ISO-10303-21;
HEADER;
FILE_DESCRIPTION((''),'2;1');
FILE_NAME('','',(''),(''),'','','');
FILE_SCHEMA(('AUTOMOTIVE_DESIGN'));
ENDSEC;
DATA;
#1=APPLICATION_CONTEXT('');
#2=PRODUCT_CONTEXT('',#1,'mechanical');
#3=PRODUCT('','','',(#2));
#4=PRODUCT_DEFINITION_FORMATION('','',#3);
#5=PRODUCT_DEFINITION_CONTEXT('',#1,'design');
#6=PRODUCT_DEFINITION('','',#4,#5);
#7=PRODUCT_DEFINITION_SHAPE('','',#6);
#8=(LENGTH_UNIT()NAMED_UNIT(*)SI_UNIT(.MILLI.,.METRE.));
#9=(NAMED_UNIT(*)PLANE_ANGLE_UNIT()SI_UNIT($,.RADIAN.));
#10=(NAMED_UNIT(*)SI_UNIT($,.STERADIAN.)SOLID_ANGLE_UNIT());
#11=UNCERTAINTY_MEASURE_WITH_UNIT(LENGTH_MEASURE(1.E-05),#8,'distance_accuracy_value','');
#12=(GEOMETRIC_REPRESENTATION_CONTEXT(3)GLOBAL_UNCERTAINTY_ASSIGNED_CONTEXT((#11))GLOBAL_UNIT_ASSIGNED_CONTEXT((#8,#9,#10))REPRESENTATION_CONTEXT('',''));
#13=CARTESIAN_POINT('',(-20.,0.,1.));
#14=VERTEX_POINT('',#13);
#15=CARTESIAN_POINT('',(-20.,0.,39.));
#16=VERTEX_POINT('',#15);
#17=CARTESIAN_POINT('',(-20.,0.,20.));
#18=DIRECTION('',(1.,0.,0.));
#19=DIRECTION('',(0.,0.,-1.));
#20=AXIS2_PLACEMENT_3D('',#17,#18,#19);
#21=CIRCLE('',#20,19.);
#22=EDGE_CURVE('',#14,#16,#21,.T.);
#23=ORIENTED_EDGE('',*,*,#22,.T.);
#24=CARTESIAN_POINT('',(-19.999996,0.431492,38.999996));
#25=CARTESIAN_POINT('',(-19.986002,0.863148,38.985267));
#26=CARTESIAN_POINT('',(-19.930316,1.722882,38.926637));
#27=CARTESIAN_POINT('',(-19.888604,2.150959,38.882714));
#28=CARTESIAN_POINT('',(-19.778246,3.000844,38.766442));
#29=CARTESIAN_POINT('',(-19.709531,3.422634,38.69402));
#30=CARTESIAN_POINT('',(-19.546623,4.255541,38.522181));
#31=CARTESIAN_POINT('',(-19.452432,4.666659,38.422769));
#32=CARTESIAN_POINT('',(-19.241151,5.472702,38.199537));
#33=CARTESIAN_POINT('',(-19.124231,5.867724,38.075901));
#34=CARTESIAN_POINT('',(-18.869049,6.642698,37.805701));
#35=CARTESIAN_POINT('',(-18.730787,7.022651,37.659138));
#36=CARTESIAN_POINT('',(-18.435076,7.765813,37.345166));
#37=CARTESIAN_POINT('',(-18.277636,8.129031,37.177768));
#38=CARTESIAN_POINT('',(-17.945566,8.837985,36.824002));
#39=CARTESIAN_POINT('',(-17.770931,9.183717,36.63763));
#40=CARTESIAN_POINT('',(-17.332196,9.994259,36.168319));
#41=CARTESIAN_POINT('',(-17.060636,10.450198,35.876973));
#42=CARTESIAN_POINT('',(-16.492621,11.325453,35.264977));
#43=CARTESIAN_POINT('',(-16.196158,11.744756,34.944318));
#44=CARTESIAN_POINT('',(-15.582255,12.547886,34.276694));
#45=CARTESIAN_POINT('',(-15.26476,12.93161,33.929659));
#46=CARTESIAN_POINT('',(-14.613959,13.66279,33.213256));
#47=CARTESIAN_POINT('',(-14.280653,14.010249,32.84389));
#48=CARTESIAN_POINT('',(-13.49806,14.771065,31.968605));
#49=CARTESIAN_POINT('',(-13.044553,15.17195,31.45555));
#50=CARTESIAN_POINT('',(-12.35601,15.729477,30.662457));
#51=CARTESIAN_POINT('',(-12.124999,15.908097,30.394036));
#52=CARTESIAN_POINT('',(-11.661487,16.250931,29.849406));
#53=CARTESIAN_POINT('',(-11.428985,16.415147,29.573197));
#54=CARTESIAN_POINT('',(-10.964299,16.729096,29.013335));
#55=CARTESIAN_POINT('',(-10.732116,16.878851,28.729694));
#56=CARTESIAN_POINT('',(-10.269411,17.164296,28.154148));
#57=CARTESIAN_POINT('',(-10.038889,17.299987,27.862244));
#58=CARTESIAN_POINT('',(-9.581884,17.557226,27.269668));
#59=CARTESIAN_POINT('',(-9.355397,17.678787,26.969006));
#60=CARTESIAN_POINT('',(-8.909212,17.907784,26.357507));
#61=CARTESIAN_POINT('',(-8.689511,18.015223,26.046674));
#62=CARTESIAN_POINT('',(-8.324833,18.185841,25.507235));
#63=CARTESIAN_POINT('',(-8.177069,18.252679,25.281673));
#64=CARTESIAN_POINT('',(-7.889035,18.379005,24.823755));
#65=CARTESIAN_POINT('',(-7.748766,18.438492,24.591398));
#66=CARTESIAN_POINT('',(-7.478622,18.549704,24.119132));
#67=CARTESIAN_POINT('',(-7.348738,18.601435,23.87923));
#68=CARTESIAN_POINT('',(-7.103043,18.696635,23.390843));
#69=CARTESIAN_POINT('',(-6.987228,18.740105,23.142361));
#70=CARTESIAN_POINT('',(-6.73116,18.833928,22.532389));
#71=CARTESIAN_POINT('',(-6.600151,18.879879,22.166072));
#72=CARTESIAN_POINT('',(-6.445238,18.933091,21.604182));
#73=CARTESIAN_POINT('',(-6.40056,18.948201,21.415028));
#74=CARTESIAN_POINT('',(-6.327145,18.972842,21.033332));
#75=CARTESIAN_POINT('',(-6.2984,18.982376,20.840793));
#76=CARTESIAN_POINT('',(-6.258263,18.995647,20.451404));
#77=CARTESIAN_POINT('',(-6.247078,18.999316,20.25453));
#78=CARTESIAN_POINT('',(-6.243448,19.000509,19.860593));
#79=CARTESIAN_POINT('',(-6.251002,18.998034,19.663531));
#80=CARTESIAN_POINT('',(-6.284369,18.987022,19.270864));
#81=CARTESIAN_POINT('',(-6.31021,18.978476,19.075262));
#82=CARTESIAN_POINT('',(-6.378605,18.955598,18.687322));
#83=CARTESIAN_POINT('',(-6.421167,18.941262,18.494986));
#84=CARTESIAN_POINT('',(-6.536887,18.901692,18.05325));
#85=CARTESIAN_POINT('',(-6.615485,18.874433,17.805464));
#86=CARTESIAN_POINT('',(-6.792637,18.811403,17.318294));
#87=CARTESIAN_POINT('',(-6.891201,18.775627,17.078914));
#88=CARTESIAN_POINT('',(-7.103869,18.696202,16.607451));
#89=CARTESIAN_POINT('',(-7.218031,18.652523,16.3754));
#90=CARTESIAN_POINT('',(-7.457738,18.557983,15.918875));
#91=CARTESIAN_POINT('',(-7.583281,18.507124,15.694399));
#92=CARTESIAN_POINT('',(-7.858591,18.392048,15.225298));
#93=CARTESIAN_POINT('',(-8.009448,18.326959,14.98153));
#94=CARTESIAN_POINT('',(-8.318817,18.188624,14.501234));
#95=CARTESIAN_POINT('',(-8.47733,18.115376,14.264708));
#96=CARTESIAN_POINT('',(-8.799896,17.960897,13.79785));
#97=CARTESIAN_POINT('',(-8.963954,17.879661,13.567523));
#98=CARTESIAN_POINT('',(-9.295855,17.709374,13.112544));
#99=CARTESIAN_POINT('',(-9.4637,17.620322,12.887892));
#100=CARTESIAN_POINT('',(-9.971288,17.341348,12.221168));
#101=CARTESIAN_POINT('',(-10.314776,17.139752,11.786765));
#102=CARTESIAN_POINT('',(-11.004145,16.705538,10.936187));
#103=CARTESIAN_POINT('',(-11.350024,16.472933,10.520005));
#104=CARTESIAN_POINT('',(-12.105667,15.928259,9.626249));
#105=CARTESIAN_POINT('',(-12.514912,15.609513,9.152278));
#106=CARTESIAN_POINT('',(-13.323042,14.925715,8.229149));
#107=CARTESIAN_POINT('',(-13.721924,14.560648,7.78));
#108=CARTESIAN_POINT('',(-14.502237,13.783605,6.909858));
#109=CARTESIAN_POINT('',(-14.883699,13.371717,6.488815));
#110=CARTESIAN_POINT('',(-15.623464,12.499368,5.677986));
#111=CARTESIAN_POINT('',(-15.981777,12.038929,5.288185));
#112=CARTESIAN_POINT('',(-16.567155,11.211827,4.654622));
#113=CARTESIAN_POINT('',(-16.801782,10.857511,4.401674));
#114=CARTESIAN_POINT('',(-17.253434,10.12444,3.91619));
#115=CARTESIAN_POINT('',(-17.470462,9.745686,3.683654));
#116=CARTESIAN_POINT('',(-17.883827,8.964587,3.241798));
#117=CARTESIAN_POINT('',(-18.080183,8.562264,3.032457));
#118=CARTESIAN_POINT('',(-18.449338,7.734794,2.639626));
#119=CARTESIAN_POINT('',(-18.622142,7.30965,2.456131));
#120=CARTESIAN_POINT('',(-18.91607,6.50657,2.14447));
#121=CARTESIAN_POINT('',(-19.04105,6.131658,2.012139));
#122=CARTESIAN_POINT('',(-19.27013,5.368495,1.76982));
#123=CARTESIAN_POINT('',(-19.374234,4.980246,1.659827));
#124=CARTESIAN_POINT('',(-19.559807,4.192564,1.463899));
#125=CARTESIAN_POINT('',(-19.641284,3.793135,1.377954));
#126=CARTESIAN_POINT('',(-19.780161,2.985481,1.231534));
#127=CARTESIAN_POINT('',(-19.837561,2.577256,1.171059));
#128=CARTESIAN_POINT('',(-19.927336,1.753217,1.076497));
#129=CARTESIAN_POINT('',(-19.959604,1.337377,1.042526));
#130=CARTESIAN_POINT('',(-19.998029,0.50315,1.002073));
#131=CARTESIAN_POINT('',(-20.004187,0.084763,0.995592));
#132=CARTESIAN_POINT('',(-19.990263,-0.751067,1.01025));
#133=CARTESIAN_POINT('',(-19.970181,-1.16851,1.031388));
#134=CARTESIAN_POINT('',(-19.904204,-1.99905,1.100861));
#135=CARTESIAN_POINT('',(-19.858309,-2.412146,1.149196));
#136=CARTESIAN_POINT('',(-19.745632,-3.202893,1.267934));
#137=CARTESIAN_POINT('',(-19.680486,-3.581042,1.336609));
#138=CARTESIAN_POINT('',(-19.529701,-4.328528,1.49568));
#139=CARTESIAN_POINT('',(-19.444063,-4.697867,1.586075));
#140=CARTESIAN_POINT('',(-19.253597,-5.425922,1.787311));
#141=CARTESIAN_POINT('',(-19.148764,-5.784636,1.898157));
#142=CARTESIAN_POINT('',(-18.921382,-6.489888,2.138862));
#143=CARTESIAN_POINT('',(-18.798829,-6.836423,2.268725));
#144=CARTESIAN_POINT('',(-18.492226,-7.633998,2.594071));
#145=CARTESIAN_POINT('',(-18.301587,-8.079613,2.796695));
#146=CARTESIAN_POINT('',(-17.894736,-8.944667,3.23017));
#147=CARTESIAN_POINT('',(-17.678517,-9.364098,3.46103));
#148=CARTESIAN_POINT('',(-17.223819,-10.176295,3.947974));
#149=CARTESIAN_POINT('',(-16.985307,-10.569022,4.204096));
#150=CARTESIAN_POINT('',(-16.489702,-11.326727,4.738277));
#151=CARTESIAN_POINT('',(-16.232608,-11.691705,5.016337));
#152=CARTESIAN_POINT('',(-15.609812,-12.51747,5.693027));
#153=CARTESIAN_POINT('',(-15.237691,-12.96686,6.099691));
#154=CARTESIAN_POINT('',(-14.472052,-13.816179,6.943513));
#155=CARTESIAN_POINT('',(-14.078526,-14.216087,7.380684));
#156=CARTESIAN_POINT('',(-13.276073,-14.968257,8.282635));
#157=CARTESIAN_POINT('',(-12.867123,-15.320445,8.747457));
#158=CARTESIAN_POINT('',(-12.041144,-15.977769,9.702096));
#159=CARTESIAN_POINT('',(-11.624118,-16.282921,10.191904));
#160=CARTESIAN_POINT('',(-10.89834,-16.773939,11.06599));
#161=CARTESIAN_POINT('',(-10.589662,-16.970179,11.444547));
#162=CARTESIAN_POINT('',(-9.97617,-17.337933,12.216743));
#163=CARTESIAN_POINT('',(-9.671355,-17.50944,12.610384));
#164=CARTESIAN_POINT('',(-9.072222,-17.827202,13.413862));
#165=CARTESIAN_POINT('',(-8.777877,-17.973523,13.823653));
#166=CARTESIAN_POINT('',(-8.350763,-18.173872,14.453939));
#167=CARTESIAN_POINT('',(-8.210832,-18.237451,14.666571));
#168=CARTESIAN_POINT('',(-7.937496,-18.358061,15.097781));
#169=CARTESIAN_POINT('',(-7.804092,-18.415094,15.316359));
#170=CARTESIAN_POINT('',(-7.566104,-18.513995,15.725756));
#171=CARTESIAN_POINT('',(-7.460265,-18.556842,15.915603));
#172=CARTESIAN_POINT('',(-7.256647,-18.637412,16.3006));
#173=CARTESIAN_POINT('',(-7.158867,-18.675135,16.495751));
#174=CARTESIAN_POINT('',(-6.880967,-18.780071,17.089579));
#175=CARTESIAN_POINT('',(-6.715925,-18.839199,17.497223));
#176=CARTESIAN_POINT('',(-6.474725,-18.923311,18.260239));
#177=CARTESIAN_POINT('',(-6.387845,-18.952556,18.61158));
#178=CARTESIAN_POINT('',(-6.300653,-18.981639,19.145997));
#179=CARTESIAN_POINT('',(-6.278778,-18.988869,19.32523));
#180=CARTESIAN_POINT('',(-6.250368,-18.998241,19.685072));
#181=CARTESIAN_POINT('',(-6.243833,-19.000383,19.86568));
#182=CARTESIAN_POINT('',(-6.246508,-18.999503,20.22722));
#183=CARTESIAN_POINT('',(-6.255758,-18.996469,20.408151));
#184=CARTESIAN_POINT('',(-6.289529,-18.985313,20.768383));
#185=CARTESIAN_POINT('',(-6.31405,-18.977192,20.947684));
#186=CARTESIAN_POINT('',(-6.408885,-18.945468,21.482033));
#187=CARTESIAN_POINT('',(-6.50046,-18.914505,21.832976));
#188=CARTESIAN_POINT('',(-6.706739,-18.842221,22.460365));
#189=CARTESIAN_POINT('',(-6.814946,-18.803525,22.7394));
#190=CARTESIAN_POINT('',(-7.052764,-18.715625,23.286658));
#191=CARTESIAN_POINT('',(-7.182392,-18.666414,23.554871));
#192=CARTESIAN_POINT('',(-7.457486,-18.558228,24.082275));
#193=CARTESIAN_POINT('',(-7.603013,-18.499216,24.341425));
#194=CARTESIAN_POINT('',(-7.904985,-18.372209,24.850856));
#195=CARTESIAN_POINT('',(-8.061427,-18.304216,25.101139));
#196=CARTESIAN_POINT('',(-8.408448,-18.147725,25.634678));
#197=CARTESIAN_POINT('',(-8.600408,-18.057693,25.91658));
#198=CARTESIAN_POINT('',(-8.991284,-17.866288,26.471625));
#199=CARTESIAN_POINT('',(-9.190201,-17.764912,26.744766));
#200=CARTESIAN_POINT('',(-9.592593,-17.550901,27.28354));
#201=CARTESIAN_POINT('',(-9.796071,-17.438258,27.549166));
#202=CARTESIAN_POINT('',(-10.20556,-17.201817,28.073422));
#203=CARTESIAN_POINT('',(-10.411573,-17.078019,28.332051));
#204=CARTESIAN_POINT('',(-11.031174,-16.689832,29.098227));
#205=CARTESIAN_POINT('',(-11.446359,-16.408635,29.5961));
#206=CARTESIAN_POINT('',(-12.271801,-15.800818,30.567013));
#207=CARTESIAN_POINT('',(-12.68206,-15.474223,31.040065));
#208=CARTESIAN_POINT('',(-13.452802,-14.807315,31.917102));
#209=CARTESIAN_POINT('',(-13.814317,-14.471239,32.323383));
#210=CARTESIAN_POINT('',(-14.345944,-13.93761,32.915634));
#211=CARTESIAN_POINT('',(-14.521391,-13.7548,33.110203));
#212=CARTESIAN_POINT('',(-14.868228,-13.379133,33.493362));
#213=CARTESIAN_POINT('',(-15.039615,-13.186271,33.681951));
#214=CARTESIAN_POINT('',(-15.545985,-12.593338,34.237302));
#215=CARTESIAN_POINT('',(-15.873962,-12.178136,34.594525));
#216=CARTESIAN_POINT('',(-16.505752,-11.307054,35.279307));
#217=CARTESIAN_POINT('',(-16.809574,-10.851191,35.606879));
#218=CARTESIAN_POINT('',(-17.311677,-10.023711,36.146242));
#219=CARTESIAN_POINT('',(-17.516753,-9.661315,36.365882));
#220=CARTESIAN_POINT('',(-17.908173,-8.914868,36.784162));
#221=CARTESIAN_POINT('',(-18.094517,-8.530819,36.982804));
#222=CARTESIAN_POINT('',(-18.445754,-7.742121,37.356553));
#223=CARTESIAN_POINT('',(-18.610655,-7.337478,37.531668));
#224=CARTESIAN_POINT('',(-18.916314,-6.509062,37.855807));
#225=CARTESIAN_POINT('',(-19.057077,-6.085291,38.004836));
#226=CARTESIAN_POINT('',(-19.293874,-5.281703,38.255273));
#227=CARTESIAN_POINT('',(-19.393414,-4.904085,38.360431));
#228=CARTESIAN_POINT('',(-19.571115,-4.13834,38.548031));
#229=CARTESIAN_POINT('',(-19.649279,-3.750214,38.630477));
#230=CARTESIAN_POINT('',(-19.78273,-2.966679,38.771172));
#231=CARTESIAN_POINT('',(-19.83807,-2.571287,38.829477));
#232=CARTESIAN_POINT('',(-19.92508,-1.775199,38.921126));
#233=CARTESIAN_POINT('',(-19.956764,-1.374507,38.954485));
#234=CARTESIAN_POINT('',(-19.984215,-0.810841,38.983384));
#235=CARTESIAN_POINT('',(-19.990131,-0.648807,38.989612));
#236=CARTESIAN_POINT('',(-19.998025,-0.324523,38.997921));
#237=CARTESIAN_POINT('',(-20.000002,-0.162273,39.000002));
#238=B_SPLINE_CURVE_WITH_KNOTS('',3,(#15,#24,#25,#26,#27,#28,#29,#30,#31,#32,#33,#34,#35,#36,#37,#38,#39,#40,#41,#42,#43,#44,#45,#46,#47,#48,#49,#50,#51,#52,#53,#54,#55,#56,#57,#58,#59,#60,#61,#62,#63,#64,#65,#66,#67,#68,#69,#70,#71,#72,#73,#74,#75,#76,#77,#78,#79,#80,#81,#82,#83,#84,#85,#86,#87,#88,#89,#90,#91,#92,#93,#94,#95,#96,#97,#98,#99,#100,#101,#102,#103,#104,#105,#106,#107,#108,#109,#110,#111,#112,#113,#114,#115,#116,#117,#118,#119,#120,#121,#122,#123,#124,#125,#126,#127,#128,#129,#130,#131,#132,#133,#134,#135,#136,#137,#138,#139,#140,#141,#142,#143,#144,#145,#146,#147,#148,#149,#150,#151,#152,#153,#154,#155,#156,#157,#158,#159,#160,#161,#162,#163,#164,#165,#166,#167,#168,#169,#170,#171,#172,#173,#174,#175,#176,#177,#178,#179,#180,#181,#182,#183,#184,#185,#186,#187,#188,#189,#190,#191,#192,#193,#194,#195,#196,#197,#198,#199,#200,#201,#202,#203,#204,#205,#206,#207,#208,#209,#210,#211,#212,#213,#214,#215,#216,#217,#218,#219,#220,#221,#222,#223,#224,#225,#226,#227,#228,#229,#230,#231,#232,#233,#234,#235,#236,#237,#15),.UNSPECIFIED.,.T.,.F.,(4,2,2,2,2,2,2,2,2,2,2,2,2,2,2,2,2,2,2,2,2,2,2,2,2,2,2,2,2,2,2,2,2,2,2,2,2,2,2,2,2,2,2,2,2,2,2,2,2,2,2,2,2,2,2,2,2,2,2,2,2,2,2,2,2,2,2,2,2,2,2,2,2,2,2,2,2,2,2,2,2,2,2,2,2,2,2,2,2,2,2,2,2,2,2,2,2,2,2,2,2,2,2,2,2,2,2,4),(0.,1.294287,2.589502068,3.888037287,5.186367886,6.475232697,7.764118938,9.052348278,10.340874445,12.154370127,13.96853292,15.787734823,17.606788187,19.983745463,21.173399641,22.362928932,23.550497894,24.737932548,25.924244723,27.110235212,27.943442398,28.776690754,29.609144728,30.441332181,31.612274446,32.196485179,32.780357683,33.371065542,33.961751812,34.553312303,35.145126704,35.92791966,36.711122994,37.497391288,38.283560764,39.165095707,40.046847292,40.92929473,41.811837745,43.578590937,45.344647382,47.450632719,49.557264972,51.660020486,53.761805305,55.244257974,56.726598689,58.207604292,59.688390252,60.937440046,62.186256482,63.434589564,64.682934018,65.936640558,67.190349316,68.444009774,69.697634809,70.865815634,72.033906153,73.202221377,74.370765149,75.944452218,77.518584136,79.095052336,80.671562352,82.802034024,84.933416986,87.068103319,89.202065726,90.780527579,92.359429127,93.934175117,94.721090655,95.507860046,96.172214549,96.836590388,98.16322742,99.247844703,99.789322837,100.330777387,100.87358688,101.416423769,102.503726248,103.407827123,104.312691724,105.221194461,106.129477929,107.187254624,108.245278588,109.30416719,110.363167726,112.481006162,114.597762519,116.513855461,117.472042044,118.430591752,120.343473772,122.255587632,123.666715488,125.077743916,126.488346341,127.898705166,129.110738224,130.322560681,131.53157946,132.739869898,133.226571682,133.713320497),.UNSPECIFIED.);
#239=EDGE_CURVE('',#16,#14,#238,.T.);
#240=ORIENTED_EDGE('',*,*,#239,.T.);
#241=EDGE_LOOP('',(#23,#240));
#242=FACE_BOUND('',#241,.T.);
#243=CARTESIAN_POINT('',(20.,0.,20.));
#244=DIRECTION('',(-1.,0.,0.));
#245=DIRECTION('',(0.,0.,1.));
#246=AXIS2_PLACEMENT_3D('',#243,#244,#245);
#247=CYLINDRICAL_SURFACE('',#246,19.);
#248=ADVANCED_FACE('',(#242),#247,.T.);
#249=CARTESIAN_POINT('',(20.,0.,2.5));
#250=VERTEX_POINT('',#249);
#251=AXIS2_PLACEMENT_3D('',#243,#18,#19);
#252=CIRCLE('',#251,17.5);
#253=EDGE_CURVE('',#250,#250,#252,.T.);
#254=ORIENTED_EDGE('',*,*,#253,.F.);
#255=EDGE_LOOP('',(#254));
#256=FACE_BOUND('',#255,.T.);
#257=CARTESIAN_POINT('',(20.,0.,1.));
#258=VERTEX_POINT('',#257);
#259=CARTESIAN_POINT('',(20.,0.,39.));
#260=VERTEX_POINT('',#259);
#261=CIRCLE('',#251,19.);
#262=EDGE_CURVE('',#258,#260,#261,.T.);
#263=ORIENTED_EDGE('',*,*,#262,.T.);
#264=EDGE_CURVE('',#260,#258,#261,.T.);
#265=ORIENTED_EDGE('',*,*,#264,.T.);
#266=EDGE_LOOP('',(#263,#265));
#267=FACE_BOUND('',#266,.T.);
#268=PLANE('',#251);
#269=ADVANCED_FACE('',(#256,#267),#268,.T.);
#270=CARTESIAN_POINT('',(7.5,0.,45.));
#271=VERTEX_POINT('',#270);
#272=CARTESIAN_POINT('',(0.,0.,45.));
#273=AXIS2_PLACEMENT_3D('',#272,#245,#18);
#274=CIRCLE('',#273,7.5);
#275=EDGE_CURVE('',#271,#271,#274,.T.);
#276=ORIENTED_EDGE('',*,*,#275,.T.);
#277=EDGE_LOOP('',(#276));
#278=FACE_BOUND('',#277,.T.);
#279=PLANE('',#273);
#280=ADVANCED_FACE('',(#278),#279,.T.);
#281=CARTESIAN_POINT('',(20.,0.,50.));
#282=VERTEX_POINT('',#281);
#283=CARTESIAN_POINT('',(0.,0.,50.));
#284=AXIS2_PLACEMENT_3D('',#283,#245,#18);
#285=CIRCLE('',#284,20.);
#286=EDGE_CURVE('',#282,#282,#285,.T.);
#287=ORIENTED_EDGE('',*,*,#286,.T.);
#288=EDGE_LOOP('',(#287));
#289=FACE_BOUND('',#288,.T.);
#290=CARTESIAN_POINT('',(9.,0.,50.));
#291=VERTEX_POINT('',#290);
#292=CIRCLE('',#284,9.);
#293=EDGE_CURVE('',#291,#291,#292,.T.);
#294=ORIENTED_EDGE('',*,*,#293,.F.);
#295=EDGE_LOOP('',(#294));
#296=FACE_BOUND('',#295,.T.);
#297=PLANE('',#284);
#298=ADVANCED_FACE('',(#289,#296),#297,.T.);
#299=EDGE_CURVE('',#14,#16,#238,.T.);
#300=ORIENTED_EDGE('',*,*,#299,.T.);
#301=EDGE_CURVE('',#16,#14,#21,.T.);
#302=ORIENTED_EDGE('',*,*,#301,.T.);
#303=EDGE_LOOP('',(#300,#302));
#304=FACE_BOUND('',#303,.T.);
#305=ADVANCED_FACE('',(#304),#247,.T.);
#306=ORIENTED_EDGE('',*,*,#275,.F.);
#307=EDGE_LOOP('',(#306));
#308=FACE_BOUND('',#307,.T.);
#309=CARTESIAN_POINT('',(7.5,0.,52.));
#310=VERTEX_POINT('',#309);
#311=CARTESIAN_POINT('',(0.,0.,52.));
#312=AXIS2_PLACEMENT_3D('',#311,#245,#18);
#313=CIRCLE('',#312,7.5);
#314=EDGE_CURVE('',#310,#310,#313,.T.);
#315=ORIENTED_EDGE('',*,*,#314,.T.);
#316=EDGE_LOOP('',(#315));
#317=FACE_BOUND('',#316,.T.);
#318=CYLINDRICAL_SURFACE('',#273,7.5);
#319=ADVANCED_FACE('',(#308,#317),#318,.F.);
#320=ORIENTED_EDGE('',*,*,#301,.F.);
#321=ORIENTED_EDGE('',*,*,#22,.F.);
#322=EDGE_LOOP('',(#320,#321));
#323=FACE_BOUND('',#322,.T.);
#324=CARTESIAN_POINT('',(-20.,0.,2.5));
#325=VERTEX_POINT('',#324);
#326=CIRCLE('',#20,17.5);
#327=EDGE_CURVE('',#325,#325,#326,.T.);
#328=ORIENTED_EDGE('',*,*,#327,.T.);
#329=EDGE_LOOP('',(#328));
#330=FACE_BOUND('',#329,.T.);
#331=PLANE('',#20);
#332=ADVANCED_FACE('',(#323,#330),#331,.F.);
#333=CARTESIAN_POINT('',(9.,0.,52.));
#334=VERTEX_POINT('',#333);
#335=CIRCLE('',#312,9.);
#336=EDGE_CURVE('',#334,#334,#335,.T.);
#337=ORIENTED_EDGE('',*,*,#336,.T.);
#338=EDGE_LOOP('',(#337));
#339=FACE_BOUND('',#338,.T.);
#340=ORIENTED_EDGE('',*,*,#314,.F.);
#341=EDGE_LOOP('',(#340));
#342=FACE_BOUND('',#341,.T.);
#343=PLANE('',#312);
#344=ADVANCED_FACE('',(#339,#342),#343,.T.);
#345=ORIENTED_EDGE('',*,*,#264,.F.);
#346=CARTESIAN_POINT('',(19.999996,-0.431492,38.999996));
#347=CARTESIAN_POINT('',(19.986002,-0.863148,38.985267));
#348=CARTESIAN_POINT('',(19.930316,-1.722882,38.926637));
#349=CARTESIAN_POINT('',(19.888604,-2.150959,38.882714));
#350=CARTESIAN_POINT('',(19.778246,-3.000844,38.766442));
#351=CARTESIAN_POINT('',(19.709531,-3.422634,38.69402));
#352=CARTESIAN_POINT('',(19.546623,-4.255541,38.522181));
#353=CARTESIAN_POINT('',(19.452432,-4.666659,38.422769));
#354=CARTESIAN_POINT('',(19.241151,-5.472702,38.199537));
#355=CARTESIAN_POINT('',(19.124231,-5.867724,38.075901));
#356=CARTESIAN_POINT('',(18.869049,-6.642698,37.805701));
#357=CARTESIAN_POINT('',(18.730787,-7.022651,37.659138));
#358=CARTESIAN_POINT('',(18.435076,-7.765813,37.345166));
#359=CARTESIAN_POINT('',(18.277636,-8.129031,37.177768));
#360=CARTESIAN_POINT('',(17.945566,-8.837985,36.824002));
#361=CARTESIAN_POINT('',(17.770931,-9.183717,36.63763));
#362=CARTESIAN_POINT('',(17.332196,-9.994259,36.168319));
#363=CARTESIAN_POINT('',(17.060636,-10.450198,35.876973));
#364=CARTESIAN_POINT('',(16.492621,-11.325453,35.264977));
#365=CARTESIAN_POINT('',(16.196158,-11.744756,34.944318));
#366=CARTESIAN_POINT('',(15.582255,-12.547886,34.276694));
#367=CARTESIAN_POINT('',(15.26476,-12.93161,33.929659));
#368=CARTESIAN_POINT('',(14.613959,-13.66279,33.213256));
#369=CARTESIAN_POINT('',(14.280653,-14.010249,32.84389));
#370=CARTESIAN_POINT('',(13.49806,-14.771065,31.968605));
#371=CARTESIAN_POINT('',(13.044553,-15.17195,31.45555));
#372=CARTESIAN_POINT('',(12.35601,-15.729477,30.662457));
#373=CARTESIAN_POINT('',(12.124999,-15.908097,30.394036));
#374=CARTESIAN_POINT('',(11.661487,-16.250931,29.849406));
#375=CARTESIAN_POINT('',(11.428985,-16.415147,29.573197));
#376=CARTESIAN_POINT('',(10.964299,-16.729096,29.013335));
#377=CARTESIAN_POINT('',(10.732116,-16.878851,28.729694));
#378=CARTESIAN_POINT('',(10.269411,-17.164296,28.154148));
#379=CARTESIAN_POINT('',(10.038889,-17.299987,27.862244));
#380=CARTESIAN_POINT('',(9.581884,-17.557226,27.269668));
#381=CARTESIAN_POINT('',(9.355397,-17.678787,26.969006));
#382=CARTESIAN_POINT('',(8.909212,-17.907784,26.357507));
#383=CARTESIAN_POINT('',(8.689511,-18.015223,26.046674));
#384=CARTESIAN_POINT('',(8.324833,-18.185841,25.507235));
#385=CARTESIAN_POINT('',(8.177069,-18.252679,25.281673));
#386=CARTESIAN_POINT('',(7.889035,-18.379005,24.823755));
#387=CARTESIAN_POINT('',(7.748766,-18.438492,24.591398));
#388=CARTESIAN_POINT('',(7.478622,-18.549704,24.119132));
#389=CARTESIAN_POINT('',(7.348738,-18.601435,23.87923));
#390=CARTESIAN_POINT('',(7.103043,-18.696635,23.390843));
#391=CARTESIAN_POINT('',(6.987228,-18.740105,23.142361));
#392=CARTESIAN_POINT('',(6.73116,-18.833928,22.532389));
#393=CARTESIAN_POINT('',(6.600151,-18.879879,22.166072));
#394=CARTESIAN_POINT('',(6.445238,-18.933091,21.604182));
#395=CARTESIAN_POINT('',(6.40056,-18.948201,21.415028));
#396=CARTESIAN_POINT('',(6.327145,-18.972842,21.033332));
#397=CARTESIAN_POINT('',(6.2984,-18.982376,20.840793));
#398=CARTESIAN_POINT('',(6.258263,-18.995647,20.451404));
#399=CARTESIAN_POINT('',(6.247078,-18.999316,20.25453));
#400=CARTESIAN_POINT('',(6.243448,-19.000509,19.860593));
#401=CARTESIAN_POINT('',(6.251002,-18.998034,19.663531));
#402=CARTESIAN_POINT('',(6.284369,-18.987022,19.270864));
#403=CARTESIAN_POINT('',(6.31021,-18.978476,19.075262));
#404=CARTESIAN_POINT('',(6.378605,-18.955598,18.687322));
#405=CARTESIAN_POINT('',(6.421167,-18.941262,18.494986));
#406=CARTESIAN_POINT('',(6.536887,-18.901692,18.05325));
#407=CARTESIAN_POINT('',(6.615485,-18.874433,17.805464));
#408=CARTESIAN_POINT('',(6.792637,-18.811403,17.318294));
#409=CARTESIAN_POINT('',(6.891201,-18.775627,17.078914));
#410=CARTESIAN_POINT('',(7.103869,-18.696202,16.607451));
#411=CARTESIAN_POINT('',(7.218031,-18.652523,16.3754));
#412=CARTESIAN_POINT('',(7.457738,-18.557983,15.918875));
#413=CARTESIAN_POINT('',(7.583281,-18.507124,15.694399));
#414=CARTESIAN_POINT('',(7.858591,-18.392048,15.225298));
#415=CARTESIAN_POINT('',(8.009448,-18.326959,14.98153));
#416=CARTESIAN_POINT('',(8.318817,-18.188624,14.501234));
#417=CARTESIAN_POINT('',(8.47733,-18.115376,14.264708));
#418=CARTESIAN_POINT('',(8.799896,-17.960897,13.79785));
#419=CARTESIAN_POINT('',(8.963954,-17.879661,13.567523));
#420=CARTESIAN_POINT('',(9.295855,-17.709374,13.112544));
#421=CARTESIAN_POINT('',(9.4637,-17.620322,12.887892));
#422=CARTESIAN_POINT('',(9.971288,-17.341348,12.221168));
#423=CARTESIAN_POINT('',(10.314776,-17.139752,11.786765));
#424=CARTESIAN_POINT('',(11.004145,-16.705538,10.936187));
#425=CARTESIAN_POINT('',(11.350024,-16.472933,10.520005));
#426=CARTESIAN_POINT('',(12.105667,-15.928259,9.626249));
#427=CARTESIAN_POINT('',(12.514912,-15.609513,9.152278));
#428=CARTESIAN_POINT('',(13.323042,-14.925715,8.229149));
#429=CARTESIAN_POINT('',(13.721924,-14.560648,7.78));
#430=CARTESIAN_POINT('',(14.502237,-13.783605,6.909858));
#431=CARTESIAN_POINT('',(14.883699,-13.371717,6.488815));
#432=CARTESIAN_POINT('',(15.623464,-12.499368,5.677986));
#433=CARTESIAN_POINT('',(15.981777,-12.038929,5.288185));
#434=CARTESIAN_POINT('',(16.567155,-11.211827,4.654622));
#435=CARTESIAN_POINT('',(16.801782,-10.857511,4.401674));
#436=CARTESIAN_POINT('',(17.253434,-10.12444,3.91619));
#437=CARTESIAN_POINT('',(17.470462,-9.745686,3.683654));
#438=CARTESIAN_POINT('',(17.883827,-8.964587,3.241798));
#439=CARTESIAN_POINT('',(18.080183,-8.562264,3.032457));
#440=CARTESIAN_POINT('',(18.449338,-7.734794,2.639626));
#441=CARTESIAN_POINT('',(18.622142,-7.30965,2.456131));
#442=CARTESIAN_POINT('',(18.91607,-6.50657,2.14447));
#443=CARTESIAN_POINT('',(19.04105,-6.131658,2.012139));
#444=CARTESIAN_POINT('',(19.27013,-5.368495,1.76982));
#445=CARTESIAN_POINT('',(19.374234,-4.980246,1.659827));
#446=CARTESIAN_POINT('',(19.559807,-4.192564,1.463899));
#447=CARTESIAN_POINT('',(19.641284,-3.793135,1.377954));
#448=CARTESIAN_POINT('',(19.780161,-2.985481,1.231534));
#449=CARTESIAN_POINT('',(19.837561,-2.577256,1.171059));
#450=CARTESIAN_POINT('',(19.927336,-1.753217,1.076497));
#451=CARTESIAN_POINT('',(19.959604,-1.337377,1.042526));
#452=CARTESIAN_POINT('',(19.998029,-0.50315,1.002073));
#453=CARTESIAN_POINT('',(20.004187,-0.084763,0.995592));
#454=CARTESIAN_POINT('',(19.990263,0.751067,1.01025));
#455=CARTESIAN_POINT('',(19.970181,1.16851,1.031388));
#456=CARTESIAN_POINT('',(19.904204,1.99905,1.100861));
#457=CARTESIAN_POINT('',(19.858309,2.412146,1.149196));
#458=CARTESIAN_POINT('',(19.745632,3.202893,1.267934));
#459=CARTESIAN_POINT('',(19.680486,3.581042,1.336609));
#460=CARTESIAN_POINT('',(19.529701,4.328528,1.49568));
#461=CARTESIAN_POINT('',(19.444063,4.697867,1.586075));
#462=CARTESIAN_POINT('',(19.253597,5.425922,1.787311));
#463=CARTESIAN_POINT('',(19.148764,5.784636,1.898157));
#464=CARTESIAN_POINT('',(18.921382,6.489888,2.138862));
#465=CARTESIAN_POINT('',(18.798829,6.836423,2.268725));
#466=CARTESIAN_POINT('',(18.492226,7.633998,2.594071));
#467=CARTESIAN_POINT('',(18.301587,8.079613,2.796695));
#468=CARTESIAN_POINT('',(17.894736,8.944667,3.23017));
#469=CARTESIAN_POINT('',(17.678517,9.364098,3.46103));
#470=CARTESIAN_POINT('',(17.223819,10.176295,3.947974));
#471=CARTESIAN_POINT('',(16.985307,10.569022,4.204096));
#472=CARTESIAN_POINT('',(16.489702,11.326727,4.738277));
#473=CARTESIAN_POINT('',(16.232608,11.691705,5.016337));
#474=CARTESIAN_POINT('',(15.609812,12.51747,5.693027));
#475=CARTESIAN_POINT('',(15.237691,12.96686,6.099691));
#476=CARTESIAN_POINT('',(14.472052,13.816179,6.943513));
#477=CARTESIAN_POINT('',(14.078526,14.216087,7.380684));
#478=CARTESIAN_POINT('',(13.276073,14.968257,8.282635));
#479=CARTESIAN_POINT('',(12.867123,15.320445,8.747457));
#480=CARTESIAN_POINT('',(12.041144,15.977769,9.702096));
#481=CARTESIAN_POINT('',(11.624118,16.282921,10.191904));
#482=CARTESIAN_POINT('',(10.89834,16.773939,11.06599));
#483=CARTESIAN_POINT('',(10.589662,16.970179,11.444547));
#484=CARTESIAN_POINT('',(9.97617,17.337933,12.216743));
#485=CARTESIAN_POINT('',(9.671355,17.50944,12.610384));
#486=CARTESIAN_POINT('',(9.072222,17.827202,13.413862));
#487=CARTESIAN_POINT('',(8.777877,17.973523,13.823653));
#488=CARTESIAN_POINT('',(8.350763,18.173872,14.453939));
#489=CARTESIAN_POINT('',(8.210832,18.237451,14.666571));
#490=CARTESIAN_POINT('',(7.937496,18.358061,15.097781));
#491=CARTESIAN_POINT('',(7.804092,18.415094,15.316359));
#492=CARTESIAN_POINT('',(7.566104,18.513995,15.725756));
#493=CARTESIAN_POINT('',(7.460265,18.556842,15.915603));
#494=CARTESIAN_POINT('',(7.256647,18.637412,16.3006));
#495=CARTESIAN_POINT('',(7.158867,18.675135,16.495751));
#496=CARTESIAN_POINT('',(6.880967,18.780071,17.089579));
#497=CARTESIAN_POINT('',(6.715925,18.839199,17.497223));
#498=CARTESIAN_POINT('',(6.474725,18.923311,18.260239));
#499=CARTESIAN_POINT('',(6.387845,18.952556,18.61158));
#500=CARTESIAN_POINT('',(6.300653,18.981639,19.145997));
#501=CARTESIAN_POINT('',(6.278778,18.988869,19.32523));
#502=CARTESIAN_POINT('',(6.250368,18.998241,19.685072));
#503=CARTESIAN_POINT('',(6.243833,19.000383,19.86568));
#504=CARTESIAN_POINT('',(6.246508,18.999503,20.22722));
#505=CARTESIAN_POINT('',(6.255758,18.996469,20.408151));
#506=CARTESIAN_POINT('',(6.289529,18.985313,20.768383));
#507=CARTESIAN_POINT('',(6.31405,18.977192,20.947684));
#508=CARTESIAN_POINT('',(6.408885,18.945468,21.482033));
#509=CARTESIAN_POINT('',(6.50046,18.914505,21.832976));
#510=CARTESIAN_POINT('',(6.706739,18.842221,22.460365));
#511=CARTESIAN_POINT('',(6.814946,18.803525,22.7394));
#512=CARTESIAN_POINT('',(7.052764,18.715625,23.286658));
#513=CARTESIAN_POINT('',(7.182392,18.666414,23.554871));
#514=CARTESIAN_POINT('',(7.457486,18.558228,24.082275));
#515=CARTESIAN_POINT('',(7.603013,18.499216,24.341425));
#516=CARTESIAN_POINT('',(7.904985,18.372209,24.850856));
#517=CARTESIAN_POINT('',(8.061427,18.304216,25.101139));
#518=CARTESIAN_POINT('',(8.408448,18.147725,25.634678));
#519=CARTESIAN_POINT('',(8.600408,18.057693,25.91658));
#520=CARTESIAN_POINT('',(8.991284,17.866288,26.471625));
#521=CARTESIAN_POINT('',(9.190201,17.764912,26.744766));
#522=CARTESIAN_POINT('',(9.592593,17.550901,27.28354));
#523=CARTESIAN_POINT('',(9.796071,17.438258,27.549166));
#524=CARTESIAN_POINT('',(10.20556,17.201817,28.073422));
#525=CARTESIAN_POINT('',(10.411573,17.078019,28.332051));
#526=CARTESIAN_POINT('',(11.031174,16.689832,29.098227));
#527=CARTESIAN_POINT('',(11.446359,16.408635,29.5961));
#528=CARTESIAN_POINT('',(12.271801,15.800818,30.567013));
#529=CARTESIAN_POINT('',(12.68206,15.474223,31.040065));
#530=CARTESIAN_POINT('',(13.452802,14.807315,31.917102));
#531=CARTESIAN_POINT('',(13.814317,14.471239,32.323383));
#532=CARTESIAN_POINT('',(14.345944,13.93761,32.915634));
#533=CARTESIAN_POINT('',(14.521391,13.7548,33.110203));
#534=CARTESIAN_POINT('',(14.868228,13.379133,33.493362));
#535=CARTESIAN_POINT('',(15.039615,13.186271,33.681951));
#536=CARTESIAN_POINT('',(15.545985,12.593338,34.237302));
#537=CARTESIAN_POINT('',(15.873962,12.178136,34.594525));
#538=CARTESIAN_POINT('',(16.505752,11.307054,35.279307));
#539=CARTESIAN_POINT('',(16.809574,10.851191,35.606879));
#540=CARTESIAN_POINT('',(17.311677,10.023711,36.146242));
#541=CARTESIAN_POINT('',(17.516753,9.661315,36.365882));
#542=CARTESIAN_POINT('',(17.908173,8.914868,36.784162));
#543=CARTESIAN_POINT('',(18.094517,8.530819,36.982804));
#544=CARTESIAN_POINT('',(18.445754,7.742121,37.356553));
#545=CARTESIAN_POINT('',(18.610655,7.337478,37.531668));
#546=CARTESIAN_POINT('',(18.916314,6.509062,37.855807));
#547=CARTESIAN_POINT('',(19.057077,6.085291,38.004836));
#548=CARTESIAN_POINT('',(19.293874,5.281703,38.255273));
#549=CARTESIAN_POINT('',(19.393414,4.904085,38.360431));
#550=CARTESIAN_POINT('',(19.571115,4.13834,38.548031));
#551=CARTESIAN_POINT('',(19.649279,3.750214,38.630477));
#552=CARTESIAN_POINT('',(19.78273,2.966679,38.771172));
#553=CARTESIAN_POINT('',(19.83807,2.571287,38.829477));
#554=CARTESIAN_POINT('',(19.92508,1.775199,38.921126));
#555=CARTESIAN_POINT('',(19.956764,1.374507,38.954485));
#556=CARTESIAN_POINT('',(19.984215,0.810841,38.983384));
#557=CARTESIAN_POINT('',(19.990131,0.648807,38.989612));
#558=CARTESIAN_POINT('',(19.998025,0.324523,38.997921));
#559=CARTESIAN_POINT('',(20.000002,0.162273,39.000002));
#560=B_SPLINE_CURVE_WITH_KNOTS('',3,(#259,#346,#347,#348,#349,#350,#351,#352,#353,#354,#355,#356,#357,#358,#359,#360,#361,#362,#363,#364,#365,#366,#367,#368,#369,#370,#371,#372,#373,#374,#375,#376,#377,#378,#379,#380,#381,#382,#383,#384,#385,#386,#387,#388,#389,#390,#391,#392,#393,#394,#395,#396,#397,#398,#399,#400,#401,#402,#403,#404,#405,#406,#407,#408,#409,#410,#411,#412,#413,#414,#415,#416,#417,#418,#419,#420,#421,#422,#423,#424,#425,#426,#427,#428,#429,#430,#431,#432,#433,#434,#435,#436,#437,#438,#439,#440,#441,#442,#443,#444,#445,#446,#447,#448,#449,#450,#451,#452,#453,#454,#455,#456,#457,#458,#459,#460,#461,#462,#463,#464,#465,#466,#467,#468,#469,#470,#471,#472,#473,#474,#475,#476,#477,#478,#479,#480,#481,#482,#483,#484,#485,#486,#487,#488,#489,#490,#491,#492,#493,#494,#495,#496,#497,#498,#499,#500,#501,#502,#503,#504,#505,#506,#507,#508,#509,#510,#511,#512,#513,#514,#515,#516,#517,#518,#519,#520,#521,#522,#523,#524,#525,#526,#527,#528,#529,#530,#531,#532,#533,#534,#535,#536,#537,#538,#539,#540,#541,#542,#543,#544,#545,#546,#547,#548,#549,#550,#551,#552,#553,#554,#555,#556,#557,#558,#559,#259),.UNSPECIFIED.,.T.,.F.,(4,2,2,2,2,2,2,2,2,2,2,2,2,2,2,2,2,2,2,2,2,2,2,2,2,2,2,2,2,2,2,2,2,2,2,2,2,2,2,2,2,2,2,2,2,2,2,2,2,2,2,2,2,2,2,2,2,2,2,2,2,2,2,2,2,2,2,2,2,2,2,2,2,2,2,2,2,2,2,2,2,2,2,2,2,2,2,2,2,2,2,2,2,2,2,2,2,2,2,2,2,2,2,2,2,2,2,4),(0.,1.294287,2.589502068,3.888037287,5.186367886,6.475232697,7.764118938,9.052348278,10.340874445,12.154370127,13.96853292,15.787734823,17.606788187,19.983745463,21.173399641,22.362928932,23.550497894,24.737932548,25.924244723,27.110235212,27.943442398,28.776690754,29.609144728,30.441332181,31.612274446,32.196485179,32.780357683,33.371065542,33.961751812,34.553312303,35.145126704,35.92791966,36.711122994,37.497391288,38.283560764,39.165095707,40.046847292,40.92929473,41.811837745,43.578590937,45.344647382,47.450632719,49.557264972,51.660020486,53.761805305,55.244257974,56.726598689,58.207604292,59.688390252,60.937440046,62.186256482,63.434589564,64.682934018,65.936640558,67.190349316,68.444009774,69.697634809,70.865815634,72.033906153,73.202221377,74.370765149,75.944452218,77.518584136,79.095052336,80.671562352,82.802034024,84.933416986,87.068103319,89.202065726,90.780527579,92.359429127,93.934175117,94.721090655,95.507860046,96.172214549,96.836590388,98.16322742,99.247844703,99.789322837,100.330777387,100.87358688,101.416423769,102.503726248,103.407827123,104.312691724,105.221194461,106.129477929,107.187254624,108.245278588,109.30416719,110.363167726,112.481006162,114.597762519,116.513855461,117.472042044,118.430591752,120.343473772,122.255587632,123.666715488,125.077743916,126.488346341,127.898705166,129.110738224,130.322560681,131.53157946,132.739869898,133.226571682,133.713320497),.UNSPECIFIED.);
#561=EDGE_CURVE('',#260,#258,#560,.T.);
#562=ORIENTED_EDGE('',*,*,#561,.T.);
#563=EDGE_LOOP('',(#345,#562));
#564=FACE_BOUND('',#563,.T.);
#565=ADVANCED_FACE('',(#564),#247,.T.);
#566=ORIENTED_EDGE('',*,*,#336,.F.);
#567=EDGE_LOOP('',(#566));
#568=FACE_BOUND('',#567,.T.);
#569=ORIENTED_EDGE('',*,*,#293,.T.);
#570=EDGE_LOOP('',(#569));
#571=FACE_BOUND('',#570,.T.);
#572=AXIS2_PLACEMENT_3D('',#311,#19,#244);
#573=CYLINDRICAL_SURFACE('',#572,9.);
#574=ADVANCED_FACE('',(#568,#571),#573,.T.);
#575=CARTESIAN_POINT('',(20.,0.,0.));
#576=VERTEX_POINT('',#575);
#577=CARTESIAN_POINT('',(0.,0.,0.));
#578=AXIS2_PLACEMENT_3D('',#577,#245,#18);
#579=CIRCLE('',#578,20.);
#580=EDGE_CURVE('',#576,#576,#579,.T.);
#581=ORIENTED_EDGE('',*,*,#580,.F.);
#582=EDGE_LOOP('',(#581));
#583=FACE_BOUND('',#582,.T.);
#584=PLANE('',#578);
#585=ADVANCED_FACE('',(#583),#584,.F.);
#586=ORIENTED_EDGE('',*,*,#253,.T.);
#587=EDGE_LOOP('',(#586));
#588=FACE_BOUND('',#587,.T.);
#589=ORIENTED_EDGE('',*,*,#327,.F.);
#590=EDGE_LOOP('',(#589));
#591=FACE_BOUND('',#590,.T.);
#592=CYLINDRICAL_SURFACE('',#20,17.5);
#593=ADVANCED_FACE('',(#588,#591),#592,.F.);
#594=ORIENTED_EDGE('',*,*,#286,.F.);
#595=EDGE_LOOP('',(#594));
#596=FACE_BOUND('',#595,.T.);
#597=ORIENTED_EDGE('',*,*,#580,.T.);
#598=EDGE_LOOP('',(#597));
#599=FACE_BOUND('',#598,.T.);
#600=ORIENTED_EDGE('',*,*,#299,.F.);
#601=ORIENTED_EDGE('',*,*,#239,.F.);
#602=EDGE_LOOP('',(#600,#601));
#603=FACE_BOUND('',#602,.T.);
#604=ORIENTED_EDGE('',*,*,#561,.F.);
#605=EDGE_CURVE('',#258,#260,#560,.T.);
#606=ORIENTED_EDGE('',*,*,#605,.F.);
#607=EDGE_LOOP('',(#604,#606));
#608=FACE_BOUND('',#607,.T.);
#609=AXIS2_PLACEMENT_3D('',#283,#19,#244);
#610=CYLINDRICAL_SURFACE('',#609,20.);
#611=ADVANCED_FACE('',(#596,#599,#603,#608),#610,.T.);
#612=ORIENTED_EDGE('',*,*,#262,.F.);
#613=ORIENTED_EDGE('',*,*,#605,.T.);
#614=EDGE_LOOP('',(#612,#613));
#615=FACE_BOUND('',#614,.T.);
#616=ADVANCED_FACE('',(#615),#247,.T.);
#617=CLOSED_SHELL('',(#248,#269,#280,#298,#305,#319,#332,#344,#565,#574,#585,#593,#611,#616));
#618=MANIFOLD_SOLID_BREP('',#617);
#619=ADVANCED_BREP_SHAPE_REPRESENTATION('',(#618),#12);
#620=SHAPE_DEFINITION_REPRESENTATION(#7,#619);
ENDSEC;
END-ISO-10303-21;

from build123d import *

# Parameters (mm, degrees)
SKETCH1_R           = 20
BOSS_EXTRUDE1_DEPTH = 50
SKETCH2_R           = 19
BOSS_EXTRUDE2_DEPTH = 20
SKETCH4_R           = 17.5
CUT_EXTRUDE1_DEPTH  = 40
SKETCH5_R           = 7.5
CUT_EXTRUDE2_DEPTH  = 5
SKETCH6_R           = 9
SKETCH6_R_2         = 7.5
BOSS_EXTRUDE3_DEPTH = 2


with BuildPart() as part:
    # Sketch1 → Boss-Extrude1 (new body)
    with BuildSketch(Plane.XY):
        Circle(SKETCH1_R)
    extrude(amount=BOSS_EXTRUDE1_DEPTH)

    # Sketch2 → Boss-Extrude2 (add, symmetric)
    with BuildSketch(Plane(origin=(0, 0, 0), x_dir=(0, 0, -1), z_dir=(1, 0, 0))):
        with Locations((-20, 0)):
            Circle(SKETCH2_R)
    extrude(amount=BOSS_EXTRUDE2_DEPTH, both=True)

    # Sketch4 → Cut-Extrude1 (cut)
    with BuildSketch(Plane(origin=(20, 0, 0), x_dir=(0, 0, -1), z_dir=(1, 0, 0))):
        with Locations((-20, 0)):
            Circle(SKETCH4_R)
    extrude(amount=-CUT_EXTRUDE1_DEPTH, mode=Mode.SUBTRACT)

    # Sketch5 → Cut-Extrude2 (cut)
    with BuildSketch(Plane.XY.offset(50)):
        Circle(SKETCH5_R)
    extrude(amount=-CUT_EXTRUDE2_DEPTH, mode=Mode.SUBTRACT)

    # Sketch6 → Boss-Extrude3 (add)
    with BuildSketch(Plane.XY.offset(50)):
        Circle(SKETCH6_R)
        Circle(SKETCH6_R_2, mode=Mode.SUBTRACT)
    extrude(amount=BOSS_EXTRUDE3_DEPTH)


solid = part.part
